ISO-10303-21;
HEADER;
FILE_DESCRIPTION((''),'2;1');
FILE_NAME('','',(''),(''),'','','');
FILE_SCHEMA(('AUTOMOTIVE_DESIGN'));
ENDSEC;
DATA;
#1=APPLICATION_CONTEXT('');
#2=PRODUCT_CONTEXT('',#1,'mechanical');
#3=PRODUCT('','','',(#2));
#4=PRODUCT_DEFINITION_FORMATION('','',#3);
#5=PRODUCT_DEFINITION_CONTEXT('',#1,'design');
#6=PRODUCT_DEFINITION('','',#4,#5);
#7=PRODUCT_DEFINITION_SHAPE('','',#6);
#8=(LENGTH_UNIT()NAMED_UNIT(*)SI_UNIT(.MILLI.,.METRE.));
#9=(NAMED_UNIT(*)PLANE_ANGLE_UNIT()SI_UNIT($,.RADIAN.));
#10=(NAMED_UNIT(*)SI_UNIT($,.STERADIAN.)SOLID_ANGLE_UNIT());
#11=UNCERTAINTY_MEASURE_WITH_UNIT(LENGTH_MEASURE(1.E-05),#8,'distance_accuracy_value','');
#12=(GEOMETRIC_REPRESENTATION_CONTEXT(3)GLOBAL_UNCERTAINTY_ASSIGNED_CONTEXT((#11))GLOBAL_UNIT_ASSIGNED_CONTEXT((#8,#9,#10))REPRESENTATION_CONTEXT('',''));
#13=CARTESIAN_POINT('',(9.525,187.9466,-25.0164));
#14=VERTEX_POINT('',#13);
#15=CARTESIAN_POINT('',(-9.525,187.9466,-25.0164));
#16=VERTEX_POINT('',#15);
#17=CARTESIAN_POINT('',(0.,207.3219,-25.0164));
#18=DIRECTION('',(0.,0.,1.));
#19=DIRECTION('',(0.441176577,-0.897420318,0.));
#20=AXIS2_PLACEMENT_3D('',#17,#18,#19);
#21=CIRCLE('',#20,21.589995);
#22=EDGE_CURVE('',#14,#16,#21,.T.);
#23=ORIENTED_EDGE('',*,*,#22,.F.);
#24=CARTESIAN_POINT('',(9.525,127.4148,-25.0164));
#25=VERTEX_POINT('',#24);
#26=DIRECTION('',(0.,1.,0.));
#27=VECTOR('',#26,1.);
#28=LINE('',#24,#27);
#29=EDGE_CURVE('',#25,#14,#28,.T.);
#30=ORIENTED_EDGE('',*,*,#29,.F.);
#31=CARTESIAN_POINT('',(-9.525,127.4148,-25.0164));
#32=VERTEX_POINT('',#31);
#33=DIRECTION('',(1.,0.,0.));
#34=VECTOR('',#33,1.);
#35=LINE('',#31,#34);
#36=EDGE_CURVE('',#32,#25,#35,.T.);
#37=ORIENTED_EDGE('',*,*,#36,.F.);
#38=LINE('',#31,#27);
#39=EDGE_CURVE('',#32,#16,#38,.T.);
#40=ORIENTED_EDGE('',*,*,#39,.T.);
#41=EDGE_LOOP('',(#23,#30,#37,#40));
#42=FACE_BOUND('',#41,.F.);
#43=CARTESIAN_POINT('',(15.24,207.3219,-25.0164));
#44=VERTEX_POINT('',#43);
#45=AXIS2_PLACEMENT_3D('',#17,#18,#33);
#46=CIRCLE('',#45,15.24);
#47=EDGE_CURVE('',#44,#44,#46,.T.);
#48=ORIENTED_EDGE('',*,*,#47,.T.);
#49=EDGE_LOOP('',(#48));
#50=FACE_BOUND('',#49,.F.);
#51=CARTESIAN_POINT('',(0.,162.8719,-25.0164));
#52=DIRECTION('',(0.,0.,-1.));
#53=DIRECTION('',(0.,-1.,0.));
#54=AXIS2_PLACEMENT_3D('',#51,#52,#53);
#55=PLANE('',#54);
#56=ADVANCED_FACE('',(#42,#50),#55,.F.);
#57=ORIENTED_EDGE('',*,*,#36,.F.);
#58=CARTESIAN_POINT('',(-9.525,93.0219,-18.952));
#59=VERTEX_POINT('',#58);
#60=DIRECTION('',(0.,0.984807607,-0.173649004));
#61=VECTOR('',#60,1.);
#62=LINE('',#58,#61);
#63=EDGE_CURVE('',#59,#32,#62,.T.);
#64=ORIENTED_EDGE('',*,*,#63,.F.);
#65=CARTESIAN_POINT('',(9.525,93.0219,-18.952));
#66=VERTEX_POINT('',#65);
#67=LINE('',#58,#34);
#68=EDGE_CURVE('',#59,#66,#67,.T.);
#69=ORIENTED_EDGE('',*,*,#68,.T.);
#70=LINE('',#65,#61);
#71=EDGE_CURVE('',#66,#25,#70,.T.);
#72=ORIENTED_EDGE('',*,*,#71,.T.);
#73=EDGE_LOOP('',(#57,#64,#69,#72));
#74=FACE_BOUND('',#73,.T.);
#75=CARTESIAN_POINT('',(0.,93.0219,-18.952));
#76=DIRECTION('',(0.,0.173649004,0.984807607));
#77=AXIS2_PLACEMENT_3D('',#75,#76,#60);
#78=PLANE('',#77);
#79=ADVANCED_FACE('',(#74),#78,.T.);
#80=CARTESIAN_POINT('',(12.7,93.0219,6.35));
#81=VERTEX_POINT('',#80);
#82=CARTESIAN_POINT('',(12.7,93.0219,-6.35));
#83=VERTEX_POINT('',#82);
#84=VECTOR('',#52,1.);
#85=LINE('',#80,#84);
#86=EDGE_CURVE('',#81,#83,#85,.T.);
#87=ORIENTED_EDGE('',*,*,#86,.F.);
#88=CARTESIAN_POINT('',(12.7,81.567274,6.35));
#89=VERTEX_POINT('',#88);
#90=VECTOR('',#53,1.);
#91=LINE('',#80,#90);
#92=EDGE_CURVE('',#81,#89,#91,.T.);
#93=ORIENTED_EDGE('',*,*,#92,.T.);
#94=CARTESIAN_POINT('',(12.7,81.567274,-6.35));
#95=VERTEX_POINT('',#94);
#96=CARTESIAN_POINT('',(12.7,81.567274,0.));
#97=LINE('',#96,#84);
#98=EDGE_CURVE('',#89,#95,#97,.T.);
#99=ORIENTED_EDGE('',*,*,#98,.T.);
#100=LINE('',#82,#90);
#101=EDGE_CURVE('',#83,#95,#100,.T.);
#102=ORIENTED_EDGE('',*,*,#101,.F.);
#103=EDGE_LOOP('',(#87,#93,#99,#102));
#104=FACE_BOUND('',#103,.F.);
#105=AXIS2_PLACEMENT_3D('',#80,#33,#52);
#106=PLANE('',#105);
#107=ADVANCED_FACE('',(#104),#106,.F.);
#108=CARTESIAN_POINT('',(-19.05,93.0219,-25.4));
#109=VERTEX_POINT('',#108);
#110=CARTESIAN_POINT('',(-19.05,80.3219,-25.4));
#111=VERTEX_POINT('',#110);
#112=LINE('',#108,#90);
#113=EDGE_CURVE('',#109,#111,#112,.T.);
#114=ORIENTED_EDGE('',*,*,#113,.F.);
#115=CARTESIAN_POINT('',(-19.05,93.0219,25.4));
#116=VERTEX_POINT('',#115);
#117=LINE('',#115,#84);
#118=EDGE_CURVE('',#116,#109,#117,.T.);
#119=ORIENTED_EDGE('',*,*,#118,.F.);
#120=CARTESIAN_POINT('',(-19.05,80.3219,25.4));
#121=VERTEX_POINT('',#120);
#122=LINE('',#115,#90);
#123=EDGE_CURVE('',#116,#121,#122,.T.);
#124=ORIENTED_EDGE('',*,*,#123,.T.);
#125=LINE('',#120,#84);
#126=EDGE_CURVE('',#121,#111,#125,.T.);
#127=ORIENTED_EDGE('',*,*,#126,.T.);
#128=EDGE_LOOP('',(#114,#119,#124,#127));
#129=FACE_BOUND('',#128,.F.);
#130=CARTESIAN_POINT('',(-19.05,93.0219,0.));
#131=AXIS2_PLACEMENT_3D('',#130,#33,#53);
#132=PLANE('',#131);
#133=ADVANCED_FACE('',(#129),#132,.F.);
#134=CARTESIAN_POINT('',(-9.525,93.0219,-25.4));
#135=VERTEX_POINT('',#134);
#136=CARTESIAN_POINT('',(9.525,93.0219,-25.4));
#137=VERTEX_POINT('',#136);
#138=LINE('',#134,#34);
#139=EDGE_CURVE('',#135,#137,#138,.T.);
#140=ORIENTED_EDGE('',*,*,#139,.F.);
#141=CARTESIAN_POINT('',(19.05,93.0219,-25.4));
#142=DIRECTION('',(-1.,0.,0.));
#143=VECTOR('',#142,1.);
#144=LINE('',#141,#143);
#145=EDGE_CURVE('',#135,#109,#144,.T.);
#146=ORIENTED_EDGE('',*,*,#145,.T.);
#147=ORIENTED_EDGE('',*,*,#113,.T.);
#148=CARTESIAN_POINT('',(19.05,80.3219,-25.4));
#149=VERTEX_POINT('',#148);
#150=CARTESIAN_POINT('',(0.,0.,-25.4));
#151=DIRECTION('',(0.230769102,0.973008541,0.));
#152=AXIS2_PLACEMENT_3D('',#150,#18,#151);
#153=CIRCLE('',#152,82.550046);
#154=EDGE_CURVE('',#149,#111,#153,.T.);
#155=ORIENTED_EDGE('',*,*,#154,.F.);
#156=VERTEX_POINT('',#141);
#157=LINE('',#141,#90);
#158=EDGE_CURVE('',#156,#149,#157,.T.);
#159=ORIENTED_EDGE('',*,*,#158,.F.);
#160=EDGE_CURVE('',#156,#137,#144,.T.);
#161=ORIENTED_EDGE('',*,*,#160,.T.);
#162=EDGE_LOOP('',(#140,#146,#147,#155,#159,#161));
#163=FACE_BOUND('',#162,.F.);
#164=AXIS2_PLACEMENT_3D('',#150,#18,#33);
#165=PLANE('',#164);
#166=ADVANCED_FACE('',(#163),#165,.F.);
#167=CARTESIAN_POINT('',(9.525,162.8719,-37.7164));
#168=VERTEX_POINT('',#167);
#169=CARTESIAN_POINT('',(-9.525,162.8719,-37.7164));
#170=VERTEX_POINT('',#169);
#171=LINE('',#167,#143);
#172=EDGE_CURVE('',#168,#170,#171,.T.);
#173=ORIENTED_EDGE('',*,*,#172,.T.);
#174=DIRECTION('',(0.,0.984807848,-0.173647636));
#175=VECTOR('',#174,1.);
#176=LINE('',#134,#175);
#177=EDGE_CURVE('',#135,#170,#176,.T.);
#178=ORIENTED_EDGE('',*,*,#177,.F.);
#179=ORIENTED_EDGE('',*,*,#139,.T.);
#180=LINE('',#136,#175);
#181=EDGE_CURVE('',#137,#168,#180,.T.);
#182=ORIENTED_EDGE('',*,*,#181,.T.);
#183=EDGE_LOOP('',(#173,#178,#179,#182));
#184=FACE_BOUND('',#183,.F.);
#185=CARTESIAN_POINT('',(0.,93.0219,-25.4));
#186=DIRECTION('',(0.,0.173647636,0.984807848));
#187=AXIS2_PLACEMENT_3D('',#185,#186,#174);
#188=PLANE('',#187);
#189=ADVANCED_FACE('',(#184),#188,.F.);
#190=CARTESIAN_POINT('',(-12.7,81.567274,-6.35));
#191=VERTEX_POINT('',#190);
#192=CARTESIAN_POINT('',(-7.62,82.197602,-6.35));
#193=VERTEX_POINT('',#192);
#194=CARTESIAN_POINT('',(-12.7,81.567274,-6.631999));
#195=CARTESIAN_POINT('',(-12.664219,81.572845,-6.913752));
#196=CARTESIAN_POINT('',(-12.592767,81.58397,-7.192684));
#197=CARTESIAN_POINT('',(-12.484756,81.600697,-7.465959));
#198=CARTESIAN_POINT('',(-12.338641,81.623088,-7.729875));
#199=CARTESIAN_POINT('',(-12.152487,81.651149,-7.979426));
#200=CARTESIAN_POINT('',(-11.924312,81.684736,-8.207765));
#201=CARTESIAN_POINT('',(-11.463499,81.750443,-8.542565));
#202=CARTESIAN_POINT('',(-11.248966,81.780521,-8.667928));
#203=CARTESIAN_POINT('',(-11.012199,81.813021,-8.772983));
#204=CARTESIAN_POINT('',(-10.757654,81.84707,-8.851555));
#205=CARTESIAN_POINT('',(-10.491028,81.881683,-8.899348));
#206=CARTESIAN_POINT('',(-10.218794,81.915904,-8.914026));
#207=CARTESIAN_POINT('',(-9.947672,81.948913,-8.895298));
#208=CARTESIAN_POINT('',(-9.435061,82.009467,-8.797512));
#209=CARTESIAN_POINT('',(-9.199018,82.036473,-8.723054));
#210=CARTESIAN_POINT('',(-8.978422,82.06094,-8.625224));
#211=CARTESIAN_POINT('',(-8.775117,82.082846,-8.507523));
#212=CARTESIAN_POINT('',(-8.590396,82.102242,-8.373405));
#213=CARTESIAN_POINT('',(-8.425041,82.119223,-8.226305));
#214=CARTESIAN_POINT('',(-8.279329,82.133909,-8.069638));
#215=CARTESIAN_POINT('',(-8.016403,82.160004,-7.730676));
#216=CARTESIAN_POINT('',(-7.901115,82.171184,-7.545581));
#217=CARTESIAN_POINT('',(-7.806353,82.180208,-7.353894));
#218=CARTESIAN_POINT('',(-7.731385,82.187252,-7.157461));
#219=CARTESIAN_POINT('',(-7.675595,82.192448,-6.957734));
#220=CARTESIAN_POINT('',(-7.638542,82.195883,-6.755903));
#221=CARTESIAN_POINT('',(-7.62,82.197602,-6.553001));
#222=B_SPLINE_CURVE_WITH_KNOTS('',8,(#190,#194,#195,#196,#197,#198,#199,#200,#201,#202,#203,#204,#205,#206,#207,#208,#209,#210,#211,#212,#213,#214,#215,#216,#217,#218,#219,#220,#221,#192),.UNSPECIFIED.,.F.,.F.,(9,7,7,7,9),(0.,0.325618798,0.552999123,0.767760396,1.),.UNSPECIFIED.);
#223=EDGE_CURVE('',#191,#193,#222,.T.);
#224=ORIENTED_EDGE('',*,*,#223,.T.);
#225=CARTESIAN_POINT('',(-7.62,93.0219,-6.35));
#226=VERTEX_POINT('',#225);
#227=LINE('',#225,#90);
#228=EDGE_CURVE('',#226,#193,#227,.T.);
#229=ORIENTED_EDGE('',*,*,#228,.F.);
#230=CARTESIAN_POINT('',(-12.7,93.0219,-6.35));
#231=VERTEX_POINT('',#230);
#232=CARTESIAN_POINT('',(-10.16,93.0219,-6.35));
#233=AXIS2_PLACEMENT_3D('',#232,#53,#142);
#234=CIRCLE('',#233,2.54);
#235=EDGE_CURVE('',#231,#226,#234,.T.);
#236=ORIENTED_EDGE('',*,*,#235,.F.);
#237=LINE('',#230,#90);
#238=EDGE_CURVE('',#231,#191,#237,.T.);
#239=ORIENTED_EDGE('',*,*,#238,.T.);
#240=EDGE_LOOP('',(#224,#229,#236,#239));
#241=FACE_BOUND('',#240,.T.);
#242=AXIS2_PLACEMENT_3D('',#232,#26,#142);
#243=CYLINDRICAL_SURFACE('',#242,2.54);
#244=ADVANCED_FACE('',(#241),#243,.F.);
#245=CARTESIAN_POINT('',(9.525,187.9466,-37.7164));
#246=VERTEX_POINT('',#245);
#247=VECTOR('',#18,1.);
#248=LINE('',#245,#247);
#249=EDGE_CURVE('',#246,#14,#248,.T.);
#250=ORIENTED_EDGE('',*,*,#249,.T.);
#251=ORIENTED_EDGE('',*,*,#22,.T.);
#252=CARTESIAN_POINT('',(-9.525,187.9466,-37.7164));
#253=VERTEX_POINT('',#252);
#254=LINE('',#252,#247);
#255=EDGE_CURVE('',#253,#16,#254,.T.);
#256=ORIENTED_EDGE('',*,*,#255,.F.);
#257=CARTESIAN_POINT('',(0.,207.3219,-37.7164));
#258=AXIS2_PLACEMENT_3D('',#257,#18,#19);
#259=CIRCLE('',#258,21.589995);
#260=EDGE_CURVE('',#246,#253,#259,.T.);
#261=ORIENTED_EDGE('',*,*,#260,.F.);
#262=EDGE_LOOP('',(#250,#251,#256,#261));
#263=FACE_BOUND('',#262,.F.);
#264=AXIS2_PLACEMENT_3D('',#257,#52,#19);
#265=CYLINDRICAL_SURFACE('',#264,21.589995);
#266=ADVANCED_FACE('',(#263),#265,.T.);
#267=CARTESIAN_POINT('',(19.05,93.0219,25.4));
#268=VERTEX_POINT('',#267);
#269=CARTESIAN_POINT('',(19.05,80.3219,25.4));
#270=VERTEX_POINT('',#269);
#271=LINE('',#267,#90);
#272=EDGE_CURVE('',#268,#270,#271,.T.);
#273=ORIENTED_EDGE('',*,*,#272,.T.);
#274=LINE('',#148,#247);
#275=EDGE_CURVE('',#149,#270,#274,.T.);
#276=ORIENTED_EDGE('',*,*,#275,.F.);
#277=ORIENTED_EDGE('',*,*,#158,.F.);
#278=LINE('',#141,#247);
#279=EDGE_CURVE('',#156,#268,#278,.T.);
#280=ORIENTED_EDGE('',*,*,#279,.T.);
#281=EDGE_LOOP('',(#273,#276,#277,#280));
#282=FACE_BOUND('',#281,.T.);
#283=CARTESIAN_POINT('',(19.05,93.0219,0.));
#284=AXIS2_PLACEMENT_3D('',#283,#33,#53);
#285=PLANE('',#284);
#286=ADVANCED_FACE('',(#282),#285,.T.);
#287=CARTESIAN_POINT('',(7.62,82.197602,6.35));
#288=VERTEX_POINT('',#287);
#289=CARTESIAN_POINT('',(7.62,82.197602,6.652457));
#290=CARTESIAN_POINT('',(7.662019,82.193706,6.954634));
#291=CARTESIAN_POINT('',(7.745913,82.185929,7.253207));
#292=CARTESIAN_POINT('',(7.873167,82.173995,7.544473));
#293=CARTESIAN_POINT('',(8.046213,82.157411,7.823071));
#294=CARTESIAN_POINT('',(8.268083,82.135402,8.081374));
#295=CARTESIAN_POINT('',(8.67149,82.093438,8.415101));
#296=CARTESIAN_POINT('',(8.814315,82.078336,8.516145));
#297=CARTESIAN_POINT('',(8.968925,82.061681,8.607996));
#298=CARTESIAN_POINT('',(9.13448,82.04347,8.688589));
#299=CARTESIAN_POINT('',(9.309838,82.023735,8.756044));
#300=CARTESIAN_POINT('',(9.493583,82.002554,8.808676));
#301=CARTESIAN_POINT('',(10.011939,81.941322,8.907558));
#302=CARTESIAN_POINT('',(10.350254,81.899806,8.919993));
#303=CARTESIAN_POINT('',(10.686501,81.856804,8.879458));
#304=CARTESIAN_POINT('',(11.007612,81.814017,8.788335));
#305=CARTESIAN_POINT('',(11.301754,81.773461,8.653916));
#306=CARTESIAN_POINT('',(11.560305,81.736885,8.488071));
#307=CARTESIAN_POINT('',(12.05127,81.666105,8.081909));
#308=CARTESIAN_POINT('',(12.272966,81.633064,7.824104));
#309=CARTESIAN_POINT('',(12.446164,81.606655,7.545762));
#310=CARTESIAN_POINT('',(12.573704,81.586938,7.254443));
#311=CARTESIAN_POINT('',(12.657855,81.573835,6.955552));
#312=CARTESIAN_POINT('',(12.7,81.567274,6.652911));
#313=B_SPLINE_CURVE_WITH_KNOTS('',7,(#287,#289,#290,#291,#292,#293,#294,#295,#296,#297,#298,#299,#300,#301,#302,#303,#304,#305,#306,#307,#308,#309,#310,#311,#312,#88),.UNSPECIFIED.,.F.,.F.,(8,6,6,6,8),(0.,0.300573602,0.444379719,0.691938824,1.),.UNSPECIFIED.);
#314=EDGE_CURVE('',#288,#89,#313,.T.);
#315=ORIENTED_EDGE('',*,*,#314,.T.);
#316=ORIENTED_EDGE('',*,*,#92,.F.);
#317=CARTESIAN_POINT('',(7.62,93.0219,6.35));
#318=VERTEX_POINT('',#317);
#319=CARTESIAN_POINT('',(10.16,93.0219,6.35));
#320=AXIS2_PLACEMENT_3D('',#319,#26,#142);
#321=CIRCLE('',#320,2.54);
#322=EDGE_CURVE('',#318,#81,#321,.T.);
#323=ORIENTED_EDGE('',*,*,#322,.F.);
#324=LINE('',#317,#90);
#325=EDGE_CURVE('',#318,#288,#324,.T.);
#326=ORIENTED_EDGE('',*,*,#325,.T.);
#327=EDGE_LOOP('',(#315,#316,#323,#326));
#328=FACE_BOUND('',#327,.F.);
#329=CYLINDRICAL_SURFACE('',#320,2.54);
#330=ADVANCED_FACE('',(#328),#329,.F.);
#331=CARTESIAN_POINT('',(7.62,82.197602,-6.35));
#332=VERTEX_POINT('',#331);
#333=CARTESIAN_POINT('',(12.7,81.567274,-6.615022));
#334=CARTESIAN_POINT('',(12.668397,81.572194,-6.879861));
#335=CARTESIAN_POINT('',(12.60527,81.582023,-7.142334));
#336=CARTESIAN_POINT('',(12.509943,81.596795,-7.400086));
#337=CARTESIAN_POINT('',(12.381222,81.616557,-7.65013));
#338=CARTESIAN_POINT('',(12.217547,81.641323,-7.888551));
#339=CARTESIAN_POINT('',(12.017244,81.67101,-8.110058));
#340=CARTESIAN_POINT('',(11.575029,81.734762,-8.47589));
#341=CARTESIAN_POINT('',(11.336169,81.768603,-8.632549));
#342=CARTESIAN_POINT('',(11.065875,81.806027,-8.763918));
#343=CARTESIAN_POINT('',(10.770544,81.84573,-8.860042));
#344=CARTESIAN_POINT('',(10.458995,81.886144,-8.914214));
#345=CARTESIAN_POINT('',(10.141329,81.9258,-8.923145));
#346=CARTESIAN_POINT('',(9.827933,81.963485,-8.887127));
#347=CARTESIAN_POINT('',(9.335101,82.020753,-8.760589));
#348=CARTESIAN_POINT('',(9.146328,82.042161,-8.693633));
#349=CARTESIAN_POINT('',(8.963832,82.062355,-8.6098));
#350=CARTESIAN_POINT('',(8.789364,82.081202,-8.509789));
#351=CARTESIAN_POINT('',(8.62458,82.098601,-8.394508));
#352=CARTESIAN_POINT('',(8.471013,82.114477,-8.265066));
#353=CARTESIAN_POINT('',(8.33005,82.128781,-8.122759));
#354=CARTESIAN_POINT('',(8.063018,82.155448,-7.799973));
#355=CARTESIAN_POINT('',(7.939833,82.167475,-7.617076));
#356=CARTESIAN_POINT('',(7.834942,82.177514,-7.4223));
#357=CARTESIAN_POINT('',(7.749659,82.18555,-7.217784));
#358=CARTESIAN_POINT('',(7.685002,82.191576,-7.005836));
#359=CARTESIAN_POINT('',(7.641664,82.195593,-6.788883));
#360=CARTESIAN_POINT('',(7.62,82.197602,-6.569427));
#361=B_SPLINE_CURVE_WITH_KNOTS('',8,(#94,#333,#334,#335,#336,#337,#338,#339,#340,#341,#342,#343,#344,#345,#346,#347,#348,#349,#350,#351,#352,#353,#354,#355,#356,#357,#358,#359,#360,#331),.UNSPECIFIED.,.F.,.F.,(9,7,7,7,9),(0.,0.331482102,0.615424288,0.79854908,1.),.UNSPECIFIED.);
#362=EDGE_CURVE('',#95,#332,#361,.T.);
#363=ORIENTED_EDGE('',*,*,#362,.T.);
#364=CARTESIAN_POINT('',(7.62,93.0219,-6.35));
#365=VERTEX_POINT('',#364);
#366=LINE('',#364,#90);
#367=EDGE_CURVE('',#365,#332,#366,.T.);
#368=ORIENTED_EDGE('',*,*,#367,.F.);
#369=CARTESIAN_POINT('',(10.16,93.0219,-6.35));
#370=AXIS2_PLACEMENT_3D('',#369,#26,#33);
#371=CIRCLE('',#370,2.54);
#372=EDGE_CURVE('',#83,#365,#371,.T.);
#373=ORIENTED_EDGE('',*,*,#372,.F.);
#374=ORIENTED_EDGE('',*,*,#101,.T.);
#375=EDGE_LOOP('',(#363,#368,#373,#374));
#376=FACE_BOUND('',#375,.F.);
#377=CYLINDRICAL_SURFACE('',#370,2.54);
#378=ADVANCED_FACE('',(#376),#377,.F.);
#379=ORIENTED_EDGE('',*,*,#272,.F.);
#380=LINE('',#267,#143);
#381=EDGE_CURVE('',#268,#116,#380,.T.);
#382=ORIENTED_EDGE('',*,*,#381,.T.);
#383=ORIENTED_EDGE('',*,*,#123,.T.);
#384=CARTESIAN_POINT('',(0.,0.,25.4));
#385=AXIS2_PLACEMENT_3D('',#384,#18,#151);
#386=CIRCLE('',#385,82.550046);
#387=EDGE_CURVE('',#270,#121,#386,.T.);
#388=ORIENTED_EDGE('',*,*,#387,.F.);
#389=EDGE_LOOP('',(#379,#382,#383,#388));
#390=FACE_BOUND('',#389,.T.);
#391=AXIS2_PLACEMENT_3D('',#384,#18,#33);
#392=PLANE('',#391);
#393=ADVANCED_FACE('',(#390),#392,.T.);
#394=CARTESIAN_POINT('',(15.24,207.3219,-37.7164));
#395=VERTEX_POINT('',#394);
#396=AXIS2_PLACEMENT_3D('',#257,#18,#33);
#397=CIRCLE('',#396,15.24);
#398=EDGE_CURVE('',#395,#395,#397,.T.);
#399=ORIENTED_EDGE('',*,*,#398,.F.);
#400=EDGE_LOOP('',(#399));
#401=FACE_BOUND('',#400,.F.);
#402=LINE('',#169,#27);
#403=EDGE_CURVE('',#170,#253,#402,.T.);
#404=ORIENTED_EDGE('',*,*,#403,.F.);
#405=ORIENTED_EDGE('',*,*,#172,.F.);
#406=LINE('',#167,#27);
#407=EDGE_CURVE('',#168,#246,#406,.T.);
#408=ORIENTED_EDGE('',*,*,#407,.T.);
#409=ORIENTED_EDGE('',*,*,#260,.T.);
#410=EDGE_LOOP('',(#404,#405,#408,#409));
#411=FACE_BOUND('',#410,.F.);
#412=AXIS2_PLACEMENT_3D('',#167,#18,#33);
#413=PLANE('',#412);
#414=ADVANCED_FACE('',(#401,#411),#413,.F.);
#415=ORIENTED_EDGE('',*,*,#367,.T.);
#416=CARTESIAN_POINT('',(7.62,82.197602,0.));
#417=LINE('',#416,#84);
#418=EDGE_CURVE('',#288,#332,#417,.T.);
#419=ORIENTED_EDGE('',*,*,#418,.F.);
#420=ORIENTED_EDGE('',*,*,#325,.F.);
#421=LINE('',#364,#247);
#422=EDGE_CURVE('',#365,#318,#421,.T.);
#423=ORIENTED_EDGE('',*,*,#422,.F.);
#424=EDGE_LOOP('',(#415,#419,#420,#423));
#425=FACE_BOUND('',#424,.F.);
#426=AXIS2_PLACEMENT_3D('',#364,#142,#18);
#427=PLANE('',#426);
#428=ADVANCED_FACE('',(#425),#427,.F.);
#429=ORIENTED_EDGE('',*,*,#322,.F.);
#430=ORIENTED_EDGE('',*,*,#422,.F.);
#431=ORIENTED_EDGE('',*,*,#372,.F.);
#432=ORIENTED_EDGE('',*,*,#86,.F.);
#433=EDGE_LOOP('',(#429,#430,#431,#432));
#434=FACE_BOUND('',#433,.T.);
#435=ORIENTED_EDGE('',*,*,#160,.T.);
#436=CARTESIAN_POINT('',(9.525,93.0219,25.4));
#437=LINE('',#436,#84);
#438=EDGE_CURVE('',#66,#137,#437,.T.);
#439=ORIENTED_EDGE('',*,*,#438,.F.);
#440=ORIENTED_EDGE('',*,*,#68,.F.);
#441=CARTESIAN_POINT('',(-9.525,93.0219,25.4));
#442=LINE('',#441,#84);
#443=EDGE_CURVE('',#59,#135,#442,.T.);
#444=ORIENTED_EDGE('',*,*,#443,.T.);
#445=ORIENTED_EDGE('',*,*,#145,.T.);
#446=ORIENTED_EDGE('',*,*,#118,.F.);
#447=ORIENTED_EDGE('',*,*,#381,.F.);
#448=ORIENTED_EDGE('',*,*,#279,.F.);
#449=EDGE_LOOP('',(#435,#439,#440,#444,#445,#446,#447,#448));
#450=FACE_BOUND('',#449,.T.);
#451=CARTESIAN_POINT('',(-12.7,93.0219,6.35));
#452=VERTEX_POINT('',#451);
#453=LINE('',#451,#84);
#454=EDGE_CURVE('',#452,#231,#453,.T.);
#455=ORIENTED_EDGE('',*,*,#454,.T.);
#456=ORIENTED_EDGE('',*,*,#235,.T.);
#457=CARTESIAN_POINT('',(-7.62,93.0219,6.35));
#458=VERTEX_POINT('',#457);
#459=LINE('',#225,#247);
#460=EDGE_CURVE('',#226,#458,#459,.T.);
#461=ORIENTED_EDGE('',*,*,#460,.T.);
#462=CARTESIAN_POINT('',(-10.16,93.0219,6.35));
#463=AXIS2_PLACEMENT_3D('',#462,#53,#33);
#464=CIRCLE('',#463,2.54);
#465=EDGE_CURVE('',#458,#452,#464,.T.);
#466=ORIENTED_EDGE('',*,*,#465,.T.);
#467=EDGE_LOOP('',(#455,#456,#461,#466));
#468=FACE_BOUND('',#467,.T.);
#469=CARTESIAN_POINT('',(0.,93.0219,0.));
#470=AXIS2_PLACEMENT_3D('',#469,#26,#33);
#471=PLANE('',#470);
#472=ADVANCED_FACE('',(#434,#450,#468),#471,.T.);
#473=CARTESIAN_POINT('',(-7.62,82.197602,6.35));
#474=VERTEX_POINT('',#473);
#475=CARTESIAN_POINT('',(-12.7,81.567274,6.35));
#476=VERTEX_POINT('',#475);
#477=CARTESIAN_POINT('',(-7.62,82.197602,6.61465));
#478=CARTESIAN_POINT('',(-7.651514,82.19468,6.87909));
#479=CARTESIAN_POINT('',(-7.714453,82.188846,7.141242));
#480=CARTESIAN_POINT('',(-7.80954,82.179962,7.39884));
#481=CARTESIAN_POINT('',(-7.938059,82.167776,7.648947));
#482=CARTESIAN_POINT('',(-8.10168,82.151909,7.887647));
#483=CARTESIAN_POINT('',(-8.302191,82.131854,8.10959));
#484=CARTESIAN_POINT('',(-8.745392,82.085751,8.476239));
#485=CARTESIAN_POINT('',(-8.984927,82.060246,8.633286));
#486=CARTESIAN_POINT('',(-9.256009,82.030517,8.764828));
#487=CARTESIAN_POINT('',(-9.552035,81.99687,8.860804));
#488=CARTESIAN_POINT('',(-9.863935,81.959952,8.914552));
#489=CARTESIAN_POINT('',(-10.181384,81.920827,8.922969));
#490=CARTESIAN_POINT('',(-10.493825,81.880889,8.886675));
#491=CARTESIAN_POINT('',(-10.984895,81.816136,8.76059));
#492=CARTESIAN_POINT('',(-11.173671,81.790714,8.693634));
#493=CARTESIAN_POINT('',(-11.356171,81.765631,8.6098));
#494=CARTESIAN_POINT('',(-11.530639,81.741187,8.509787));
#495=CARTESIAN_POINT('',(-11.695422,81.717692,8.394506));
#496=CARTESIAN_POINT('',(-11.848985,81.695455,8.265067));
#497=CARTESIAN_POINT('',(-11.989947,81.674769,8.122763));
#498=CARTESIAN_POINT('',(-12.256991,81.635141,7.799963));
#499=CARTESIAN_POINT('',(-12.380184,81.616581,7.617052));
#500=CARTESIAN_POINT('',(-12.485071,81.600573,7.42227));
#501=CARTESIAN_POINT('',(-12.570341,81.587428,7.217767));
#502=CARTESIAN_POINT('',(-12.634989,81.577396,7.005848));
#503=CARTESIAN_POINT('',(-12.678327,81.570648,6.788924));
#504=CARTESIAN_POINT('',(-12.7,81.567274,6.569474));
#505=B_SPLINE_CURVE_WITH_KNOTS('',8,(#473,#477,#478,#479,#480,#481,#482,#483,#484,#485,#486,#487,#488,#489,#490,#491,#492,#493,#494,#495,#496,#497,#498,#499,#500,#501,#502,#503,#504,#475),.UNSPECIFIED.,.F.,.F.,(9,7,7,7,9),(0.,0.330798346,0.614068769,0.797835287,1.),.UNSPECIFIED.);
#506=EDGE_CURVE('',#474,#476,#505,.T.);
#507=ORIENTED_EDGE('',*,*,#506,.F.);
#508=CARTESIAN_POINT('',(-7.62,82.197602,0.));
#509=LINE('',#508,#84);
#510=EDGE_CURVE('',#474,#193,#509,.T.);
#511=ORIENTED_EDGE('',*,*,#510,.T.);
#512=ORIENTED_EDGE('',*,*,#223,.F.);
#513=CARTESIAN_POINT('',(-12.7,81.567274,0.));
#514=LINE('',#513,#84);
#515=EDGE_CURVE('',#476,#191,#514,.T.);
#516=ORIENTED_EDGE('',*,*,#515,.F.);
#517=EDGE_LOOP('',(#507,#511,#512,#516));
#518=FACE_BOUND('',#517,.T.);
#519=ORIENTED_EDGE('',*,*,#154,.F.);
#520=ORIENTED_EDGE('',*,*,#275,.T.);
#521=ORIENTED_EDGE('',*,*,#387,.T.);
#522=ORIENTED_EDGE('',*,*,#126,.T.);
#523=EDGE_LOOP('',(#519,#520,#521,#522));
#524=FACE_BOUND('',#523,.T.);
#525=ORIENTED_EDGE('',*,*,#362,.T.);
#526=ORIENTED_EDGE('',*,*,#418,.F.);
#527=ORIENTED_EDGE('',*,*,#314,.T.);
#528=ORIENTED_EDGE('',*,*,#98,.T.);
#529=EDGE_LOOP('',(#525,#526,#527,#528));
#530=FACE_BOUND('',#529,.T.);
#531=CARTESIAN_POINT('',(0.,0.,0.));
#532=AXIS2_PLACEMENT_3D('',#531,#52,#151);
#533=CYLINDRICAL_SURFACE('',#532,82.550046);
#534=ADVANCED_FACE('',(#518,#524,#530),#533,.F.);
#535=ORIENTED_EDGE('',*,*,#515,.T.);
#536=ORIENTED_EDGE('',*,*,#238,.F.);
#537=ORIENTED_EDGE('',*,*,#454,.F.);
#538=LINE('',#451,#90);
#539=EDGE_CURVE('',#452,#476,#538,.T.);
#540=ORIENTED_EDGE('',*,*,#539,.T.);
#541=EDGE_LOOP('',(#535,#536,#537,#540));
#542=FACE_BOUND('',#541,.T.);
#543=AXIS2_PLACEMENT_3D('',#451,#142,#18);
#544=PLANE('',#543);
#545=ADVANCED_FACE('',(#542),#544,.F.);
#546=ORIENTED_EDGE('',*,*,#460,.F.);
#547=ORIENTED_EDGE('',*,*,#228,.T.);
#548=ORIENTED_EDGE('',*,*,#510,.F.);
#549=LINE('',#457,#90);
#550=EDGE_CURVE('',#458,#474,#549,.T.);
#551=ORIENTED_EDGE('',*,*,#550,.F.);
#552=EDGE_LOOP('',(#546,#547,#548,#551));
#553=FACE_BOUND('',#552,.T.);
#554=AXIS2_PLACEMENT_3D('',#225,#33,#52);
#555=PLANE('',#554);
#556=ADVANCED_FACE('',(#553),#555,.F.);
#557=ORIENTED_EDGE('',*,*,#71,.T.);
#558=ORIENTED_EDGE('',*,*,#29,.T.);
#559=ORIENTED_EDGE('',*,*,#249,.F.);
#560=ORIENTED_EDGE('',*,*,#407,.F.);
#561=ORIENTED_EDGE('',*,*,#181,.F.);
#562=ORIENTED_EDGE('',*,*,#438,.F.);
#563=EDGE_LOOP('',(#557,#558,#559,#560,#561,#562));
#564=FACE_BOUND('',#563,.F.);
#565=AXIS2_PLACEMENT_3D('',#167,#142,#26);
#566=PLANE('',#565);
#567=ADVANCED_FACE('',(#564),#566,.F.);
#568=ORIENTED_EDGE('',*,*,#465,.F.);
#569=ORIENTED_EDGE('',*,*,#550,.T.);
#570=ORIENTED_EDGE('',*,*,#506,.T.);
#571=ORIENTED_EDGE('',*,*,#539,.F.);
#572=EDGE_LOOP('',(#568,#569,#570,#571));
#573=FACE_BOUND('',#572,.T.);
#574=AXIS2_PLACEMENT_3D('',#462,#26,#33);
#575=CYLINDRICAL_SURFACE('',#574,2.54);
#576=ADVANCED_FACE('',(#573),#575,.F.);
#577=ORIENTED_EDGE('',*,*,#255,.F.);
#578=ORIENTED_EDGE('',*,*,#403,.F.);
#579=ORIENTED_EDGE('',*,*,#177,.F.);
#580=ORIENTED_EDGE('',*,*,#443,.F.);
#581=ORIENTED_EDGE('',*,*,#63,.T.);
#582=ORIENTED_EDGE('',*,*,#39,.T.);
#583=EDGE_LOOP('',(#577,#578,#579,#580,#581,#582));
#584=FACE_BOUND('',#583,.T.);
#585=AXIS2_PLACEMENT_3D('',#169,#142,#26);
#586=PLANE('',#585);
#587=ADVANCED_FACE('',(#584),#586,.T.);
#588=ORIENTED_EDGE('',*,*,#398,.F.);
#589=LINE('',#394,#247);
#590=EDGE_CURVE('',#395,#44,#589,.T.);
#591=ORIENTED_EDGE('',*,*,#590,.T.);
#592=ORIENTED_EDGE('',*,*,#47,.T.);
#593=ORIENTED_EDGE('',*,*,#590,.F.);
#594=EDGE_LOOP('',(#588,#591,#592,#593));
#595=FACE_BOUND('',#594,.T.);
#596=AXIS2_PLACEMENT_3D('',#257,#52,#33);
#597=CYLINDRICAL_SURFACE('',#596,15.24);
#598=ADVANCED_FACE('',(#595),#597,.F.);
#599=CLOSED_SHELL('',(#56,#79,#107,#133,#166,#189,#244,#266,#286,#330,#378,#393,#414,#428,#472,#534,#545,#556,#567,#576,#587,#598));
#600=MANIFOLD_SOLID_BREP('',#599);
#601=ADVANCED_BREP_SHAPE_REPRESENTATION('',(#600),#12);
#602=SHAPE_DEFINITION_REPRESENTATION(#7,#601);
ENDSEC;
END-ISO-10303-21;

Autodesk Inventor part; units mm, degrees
ref_plane "Work Plane3" through (19.05, 80.3219, 25.4) normal (0, 1, 0) x (-1, 0, 0)
ref_plane "Work Plane4" through (0, 228.9119, -25.0164) normal (0, 1, 0) x (-1, 0, 0)
sketch "Sketch1" plane through (0, 0, 0) normal (0, 0, 1) x (1, 0, 0)
  arc A0 (19.05, 80.3219) -> (-19.05, 80.3219) centre (0, 0) ccw
  line L0 (0, 0) -> (0, 152.4) construction
  line L1 (0, 93.0219) -> (19.05, 93.0219)
  line L2 (19.05, 93.0219) -> (19.05, 80.3219)
  line L3 (0, 93.0219) -> (-19.05, 93.0219)
  line L4 (-19.05, 93.0219) -> (-19.05, 80.3219)
  dimension "telescopeTubeDiameter" = 165.1
  dimension "d1" = 152.4
  dimension "d2" = 19.05
  dimension "d3" = 12.7
extrude "Extrusion1" add sketch "Sketch1" along normal mid plane 50.8
sketch "Sketch2" plane through (-19.05, 93.0219, 25.4) normal (0, 1, 0) x (1, 0, 0)
  line L0 (38.1, 0) -> (0, 0) construction
  line L1 (19.05, 0) -> (19.05, 50.8) construction
  line L2 (0, 50.8) -> (38.1, 50.8) construction
  line L3 (0, 50.8) -> (0, 0) construction
  line L4 (0, 25.4) -> (38.1, 25.4) construction
  line L5 (38.1, 50.8) -> (38.1, 0) construction
  line L6 (29.21, 19.05) -> (29.21, 31.75) construction
  line L7 (31.75, 19.05) -> (31.75, 31.75)
  line L8 (26.67, 31.75) -> (26.67, 19.05)
  arc A0 (26.67, 19.05) -> (31.75, 19.05) centre (29.21, 19.05) ccw
  arc A1 (31.75, 31.75) -> (26.67, 31.75) centre (29.21, 31.75) ccw
  point P0 (19.05, 25.4)
  point P1 (29.21, 25.4)
  dimension "d6" = 0
  dimension "d7" = 10.16
  dimension "d8" = 6.35
  dimension "d11" = 5.08
extrude "Extrusion2" cut sketch "Sketch2" against normal through all
mirror "Mirror1" about plane through (0, 0, 0) normal (1, 0, 0) of "Extrusion2"
sketch "Sketch3" plane through (0, 0, 0) normal (1, 0, 0) x (0, 1, 0)
  line L0 (93.0219, 25.4) -> (93.0219, -25.4) projected
  line L1 (80.3219, -25.4) -> (93.0219, -25.4) projected
  line L2 (162.8719, -25.4) -> (162.8719, -37.137) construction
  line L3 (93.0219, -25.4) -> (162.8719, -37.7164)
  line L4 (93.0219, -25.4) -> (162.8719, -25.4) construction
  line L5 (93.0219, -18.952) -> (162.8719, -31.2685)
  line L6 (162.8719, -31.2685) -> (162.8719, -37.7164)
  point P0 (0, 0)
  dimension "d13" = 69.85
  dimension "d14" = 10
  dimension "d15" = 6.35
extrude "Extrusion3" add sketch "Sketch3" along normal mid plane 19.05
ref_plane "Work Plane1" through (9.525, 162.8719, -37.7164) normal (0, 0, 1) x (1, 0, 0)
sketch "Sketch4" plane through (9.525, 162.8719, -37.7164) normal (0, 0, 1) x (1, 0, 0)
  line L0 (0, 0) -> (-19.05, 0) projected
  line L1 (-19.05, 0) -> (0, 0) construction
  line L2 (-9.525, 0) -> (-9.525, 50.8) construction
  circle A0 centre (-9.525, 44.45) radius 15.24
  arc A1 (0, 25.0747) -> (-19.05, 25.0747) centre (-9.525, 44.45) ccw
  line L3 (0, 0) -> (0, 25.0747)
  line L4 (-19.05, 0) -> (-19.05, 25.0747)
  point P0 (-9.525, -162.8719)
  dimension "d18" = 50.8
  dimension "d19" = 30.48
  dimension "d20" = 6.35
  dimension "d25" = 44.45
extrude "Extrusion4" add sketch "Sketch4" along normal blind 12.7
sketch "Sketch7" plane through (0, 0, 0) normal (1, 0, 0) x (0, 1, 0)
  line L0 (93.0219, -18.952) -> (162.8719, -31.2685) projected
  line L1 (162.8719, -31.2685) -> (162.8719, -25.0164) projected
  line L2 (162.8719, -25.0164) -> (127.4148, -25.0164)
  line L3 (127.4148, -25.0164) -> (162.8719, -31.2685)
  line L4 (187.9465, -25.0164) -> (162.8719, -25.0164) projected
  line L5 (162.8719, -31.2685) -> (162.8719, -25.0164)
  point P0 (0, 0)
extrude "Extrusion5" add sketch "Sketch7" along normal mid plane 19.05
sketch "Sketch8" plane through (0, 0, 0) normal (1, 0, 0) x (0, 1, 0)
  line L0 (162.8719, 31.2685) -> (162.8719, 25.0164) projected
  line L1 (93.0219, 18.952) -> (162.8719, 31.2685) projected
  line L2 (162.8719, 25.0164) -> (127.4148, 25.0164)
  line L3 (127.4148, 25.0164) -> (162.8719, 31.2685)
  line L4 (162.8719, 31.2685) -> (162.8719, 25.0164)
  point P0 (0, 0)
sketch "Sketch9" plane through (0, 0, 0) normal (1, 0, 0) x (0, 1, 0)
  line L0 (187.9465, 25.0164) -> (127.4148, 25.0164) projected
  line L1 (93.0219, -18.952) -> (93.0219, -25.4) projected
  line L2 (93.0219, 18.952) -> (93.0219, -18.952)
  line L3 (93.0219, -18.952) -> (127.4148, -25.0164) projected
  line L4 (93.0219, -18.952) -> (127.4148, -25.0164)
  line L5 (187.9465, -25.0164) -> (127.4148, -25.0164) projected
  line L6 (127.4148, -25.0164) -> (187.9465, -25.0164)
  line L7 (187.9465, -25.0164) -> (187.9465, 25.0164)
  line L8 (93.0219, 18.952) -> (127.4148, 25.0164) projected
  line L9 (187.9465, 25.0164) -> (127.4148, 25.0164)
  point P0 (0, 0)
sketch "Sketch14" plane through (0, 228.9119, -25.0164) normal (0, 1, 0) x (-1, 0, 0)
  circle A0 centre (0, -6.35) radius 2.0193
  line L0 (21.59, -12.7) -> (-21.59, -12.7) projected
  circle A1 centre (0, 56.3829) radius 2.0193
  line L1 (21.59, 62.7329) -> (-21.59, 62.7329) projected
  point P0 (0, 25.0164)
  point P1 (-9.525, -12.7)
  point P2 (9.525, -12.7)
  point P3 (-9.525, 62.7329)
  point P4 (9.525, 62.7329)
  dimension "d74" = 4.0386
  dimension "d75" = 6.35
  dimension "d76" = 6.35
sketch "Sketch16" plane through (0, 222.4275, -31.3664) normal (-1, 0, 0) x (0, 0, 1)
  line L0 (2.0193, 0) -> (2.0193, 6.4844)
  line L1 (2.0193, 6.4844) -> (1.4308, 6.4844)
  line L2 (1.4308, 6.4844) -> (1.4308, 0)
  line L3 (1.4308, 0) -> (2.0193, 0)
  line L4 (0, -171.8239) -> (0, 36.2042) projected
sketch "Sketch15" plane through (0, 222.4275, -29.3471) normal (1, 0, 0) x (0, 1, 0)
  line L0 (-0.4631, -0.0403) -> (-0.397, -0.0403) construction
  line L1 (0.066, -0.5486) -> (-0.0001, -0.6756) construction
  line L2 (-0.7939, -0.6756) -> (-0.86, -0.5486) construction
  line L3 (-0.3308, -0.0403) -> (-0.397, 0.0868) construction
  line L4 (-0.397, 0.0868) -> (-0.4631, -0.0403) construction
  line L5 (-0.7939, -0.6756) -> (-0.7277, -0.5486) construction
  line L6 (-0.3308, -0.0403) -> (-0.0662, -0.5486)
  line L7 (-0.86, -0.5486) -> (-0.7277, -0.5486) construction
  arc A0 (-0.86, -0.5486) -> (-0.7939, -0.5887) centre (-0.7939, -0.5141) ccw construction
  line L8 (0.066, -0.5486) -> (-0.0662, -0.5486) construction
  line L9 (-0.7939, -0.6756) -> (-0.7939, -0.5486) construction
  line L10 (-0.0001, -0.6756) -> (-0.0001, -0.5486) construction
  line L11 (-0.397, 0.0868) -> (-0.397, -0.0002) construction
  line L12 (-0.7939, -0.5887) -> (-0.0001, -0.5887)
  arc A1 (-0.7939, -0.5887) -> (-0.7277, -0.5486) centre (-0.7939, -0.5141) ccw
  line L13 (-0.0662, -0.5486) -> (-0.0001, -0.6756) construction
  line L14 (-0.7277, -0.5486) -> (-0.4631, -0.0403)
  line L15 (-0.0001, -0.0002) -> (-0.0001, 0.0177)
  line L16 (-0.0001, 0.0177) -> (-0.0001, -0.0002)
  line L17 (-0.0001, -0.0002) -> (0.0334, -0.0002)
  arc A2 (-0.0662, -0.5486) -> (-0.0001, -0.5887) centre (-0.0001, -0.5141) ccw
  arc A3 (-0.0001, -0.5887) -> (0.066, -0.5486) centre (-0.0001, -0.5141) ccw construction
  arc A4 (-0.397, -0.0002) -> (-0.4631, -0.0403) centre (-0.397, -0.0747) ccw
  arc A5 (-0.3308, -0.0403) -> (-0.397, -0.0002) centre (-0.397, -0.0747) ccw
  line L18 (-0.397, -0.0002) -> (-0.397, -0.0403) construction
  line L19 (-0.397, -0.0403) -> (-0.3308, -0.0403) construction
  dimension "d94" = 55
  dimension "d95" = 0.1271
  dimension "d96" = 0.1271
  dimension "Sketch15_ThreadOffset" = 0
  dimension "Sketch15_MajorRadius" = 0.5885
  dimension "d99" = 0.7937
  dimension "Sketch15_MinorRadius" = 0
sketch "Sketch18" plane through (0, 222.4275, 31.3664) normal (-1, 0, 0) x (0, 0, 1)
  line L0 (2.0193, 0) -> (2.0193, 6.4844)
  line L1 (2.0193, 6.4844) -> (1.4308, 6.4844)
  line L2 (1.4308, 6.4844) -> (1.4308, 0)
  line L3 (1.4308, 0) -> (2.0193, 0)
  line L4 (0, -171.8765) -> (0, 36.5199) projected
sketch "Sketch17" plane through (0, 222.4275, 33.3857) normal (1, 0, 0) x (0, 1, 0)
  line L0 (-0.4631, -0.0403) -> (-0.397, -0.0403) construction
  line L1 (0.066, -0.5486) -> (-0.0001, -0.6756) construction
  line L2 (-0.7939, -0.6756) -> (-0.86, -0.5486) construction
  line L3 (-0.3308, -0.0403) -> (-0.397, 0.0868) construction
  line L4 (-0.397, 0.0868) -> (-0.4631, -0.0403) construction
  line L5 (-0.7939, -0.6756) -> (-0.7277, -0.5486) construction
  line L6 (-0.3308, -0.0403) -> (-0.0662, -0.5486)
  line L7 (-0.86, -0.5486) -> (-0.7277, -0.5486) construction
  arc A0 (-0.86, -0.5486) -> (-0.7939, -0.5887) centre (-0.7939, -0.5141) ccw construction
  line L8 (0.066, -0.5486) -> (-0.0662, -0.5486) construction
  line L9 (-0.7939, -0.6756) -> (-0.7939, -0.5486) construction
  line L10 (-0.0001, -0.6756) -> (-0.0001, -0.5486) construction
  line L11 (-0.397, 0.0868) -> (-0.397, -0.0002) construction
  line L12 (-0.7939, -0.5887) -> (-0.0001, -0.5887)
  arc A1 (-0.7939, -0.5887) -> (-0.7277, -0.5486) centre (-0.7939, -0.5141) ccw
  line L13 (-0.0662, -0.5486) -> (-0.0001, -0.6756) construction
  line L14 (-0.7277, -0.5486) -> (-0.4631, -0.0403)
  line L15 (-0.0001, -0.0002) -> (-0.0001, 0.0177)
  line L16 (-0.0001, 0.0177) -> (-0.0001, -0.0002)
  line L17 (-0.0001, -0.0002) -> (0.0334, -0.0002)
  arc A2 (-0.0662, -0.5486) -> (-0.0001, -0.5887) centre (-0.0001, -0.5141) ccw
  arc A3 (-0.0001, -0.5887) -> (0.066, -0.5486) centre (-0.0001, -0.5141) ccw construction
  arc A4 (-0.397, -0.0002) -> (-0.4631, -0.0403) centre (-0.397, -0.0747) ccw
  arc A5 (-0.3308, -0.0403) -> (-0.397, -0.0002) centre (-0.397, -0.0747) ccw
  line L18 (-0.397, -0.0002) -> (-0.397, -0.0403) construction
  line L19 (-0.397, -0.0403) -> (-0.3308, -0.0403) construction
  dimension "d112" = 55
  dimension "d113" = 0.1271
  dimension "d114" = 0.1271
  dimension "Sketch17_ThreadOffset" = 0
  dimension "Sketch17_MajorRadius" = 0.5885
  dimension "d117" = 0.7937
  dimension "Sketch17_MinorRadius" = 0
sketch "Sketch20" plane through (13.0819, 199.769, -31.3664) normal (0.5, 0.866, 0) x (0, 0, 1)
  line L0 (2.0193, 0) -> (2.0193, 6.4844)
  line L1 (2.0193, 6.4844) -> (1.4308, 6.4844)
  line L2 (1.4308, 6.4844) -> (1.4308, 0)
  line L3 (1.4308, 0) -> (2.0193, 0)
  line L4 (0, -67.0949) -> (0, 89.4563) projected
sketch "Sketch19" plane through (13.0819, 199.769, -29.3471) normal (-0.5, -0.866, 0) x (0.866, -0.5, 0)
  line L0 (-0.4631, -0.0403) -> (-0.397, -0.0403) construction
  line L1 (0.066, -0.5486) -> (-0.0001, -0.6756) construction
  line L2 (-0.7939, -0.6756) -> (-0.86, -0.5486) construction
  line L3 (-0.3308, -0.0403) -> (-0.397, 0.0868) construction
  line L4 (-0.397, 0.0868) -> (-0.4631, -0.0403) construction
  line L5 (-0.7939, -0.6756) -> (-0.7277, -0.5486) construction
  line L6 (-0.3308, -0.0403) -> (-0.0662, -0.5486)
  line L7 (-0.86, -0.5486) -> (-0.7277, -0.5486) construction
  arc A0 (-0.86, -0.5486) -> (-0.7939, -0.5887) centre (-0.7939, -0.5141) ccw construction
  line L8 (0.066, -0.5486) -> (-0.0662, -0.5486) construction
  line L9 (-0.7939, -0.6756) -> (-0.7939, -0.5486) construction
  line L10 (-0.0001, -0.6756) -> (-0.0001, -0.5486) construction
  line L11 (-0.397, 0.0868) -> (-0.397, -0.0002) construction
  line L12 (-0.7939, -0.5887) -> (-0.0001, -0.5887)
  arc A1 (-0.7939, -0.5887) -> (-0.7277, -0.5486) centre (-0.7939, -0.5141) ccw
  line L13 (-0.0662, -0.5486) -> (-0.0001, -0.6756) construction
  line L14 (-0.7277, -0.5486) -> (-0.4631, -0.0403)
  line L15 (-0.0001, -0.0002) -> (-0.0001, 0.0177)
  line L16 (-0.0001, 0.0177) -> (-0.0001, -0.0002)
  line L17 (-0.0001, -0.0002) -> (0.0334, -0.0002)
  arc A2 (-0.0662, -0.5486) -> (-0.0001, -0.5887) centre (-0.0001, -0.5141) ccw
  arc A3 (-0.0001, -0.5887) -> (0.066, -0.5486) centre (-0.0001, -0.5141) ccw construction
  arc A4 (-0.397, -0.0002) -> (-0.4631, -0.0403) centre (-0.397, -0.0747) ccw
  arc A5 (-0.3308, -0.0403) -> (-0.397, -0.0002) centre (-0.397, -0.0747) ccw
  line L18 (-0.397, -0.0002) -> (-0.397, -0.0403) construction
  line L19 (-0.397, -0.0403) -> (-0.3308, -0.0403) construction
  dimension "d130" = 55
  dimension "d131" = 0.1271
  dimension "d132" = 0.1271
  dimension "Sketch19_ThreadOffset" = 0
  dimension "Sketch19_MajorRadius" = 0.5885
  dimension "d135" = 0.7937
  dimension "Sketch19_MinorRadius" = 0
sketch "Sketch22" plane through (-13.0819, 199.769, -31.3664) normal (0.5, -0.866, 0) x (0, 0, 1)
  line L0 (2.0193, 0) -> (2.0193, 6.4844)
  line L1 (2.0193, 6.4844) -> (1.4308, 6.4844)
  line L2 (1.4308, 6.4844) -> (1.4308, 0)
  line L3 (1.4308, 0) -> (2.0193, 0)
  line L4 (0, -67.0949) -> (0, 89.4563) projected
sketch "Sketch21" plane through (-13.0819, 199.769, -29.3471) normal (-0.5, 0.866, 0) x (-0.866, -0.5, 0)
  line L0 (-0.4631, -0.0403) -> (-0.397, -0.0403) construction
  line L1 (0.066, -0.5486) -> (-0.0001, -0.6756) construction
  line L2 (-0.7939, -0.6756) -> (-0.86, -0.5486) construction
  line L3 (-0.3308, -0.0403) -> (-0.397, 0.0868) construction
  line L4 (-0.397, 0.0868) -> (-0.4631, -0.0403) construction
  line L5 (-0.7939, -0.6756) -> (-0.7277, -0.5486) construction
  line L6 (-0.3308, -0.0403) -> (-0.0662, -0.5486)
  line L7 (-0.86, -0.5486) -> (-0.7277, -0.5486) construction
  arc A0 (-0.86, -0.5486) -> (-0.7939, -0.5887) centre (-0.7939, -0.5141) ccw construction
  line L8 (0.066, -0.5486) -> (-0.0662, -0.5486) construction
  line L9 (-0.7939, -0.6756) -> (-0.7939, -0.5486) construction
  line L10 (-0.0001, -0.6756) -> (-0.0001, -0.5486) construction
  line L11 (-0.397, 0.0868) -> (-0.397, -0.0002) construction
  line L12 (-0.7939, -0.5887) -> (-0.0001, -0.5887)
  arc A1 (-0.7939, -0.5887) -> (-0.7277, -0.5486) centre (-0.7939, -0.5141) ccw
  line L13 (-0.0662, -0.5486) -> (-0.0001, -0.6756) construction
  line L14 (-0.7277, -0.5486) -> (-0.4631, -0.0403)
  line L15 (-0.0001, -0.0002) -> (-0.0001, 0.0177)
  line L16 (-0.0001, 0.0177) -> (-0.0001, -0.0002)
  line L17 (-0.0001, -0.0002) -> (0.0334, -0.0002)
  arc A2 (-0.0662, -0.5486) -> (-0.0001, -0.5887) centre (-0.0001, -0.5141) ccw
  arc A3 (-0.0001, -0.5887) -> (0.066, -0.5486) centre (-0.0001, -0.5141) ccw construction
  arc A4 (-0.397, -0.0002) -> (-0.4631, -0.0403) centre (-0.397, -0.0747) ccw
  arc A5 (-0.3308, -0.0403) -> (-0.397, -0.0002) centre (-0.397, -0.0747) ccw
  line L18 (-0.397, -0.0002) -> (-0.397, -0.0403) construction
  line L19 (-0.397, -0.0403) -> (-0.3308, -0.0403) construction
  dimension "d148" = 55
  dimension "d149" = 0.1271
  dimension "d150" = 0.1271
  dimension "Sketch21_ThreadOffset" = 0
  dimension "Sketch21_MajorRadius" = 0.5885
  dimension "d153" = 0.7937
  dimension "Sketch21_MinorRadius" = 0
sketch "Sketch24" plane through (13.0819, 199.769, 31.3664) normal (0.5, 0.866, 0) x (0, 0, 1)
  line L0 (2.0193, 0) -> (2.0193, 6.4844)
  line L1 (2.0193, 6.4844) -> (1.4308, 6.4844)
  line L2 (1.4308, 6.4844) -> (1.4308, 0)
  line L3 (1.4308, 0) -> (2.0193, 0)
  line L4 (0, -67.0949) -> (0, 89.4563) projected
sketch "Sketch23" plane through (13.0819, 199.769, 33.3857) normal (-0.5, -0.866, 0) x (0.866, -0.5, 0)
  line L0 (-0.4631, -0.0403) -> (-0.397, -0.0403) construction
  line L1 (0.066, -0.5486) -> (-0.0001, -0.6756) construction
  line L2 (-0.7939, -0.6756) -> (-0.86, -0.5486) construction
  line L3 (-0.3308, -0.0403) -> (-0.397, 0.0868) construction
  line L4 (-0.397, 0.0868) -> (-0.4631, -0.0403) construction
  line L5 (-0.7939, -0.6756) -> (-0.7277, -0.5486) construction
  line L6 (-0.3308, -0.0403) -> (-0.0662, -0.5486)
  line L7 (-0.86, -0.5486) -> (-0.7277, -0.5486) construction
  arc A0 (-0.86, -0.5486) -> (-0.7939, -0.5887) centre (-0.7939, -0.5141) ccw construction
  line L8 (0.066, -0.5486) -> (-0.0662, -0.5486) construction
  line L9 (-0.7939, -0.6756) -> (-0.7939, -0.5486) construction
  line L10 (-0.0001, -0.6756) -> (-0.0001, -0.5486) construction
  line L11 (-0.397, 0.0868) -> (-0.397, -0.0002) construction
  line L12 (-0.7939, -0.5887) -> (-0.0001, -0.5887)
  arc A1 (-0.7939, -0.5887) -> (-0.7277, -0.5486) centre (-0.7939, -0.5141) ccw
  line L13 (-0.0662, -0.5486) -> (-0.0001, -0.6756) construction
  line L14 (-0.7277, -0.5486) -> (-0.4631, -0.0403)
  line L15 (-0.0001, -0.0002) -> (-0.0001, 0.0177)
  line L16 (-0.0001, 0.0177) -> (-0.0001, -0.0002)
  line L17 (-0.0001, -0.0002) -> (0.0334, -0.0002)
  arc A2 (-0.0662, -0.5486) -> (-0.0001, -0.5887) centre (-0.0001, -0.5141) ccw
  arc A3 (-0.0001, -0.5887) -> (0.066, -0.5486) centre (-0.0001, -0.5141) ccw construction
  arc A4 (-0.397, -0.0002) -> (-0.4631, -0.0403) centre (-0.397, -0.0747) ccw
  arc A5 (-0.3308, -0.0403) -> (-0.397, -0.0002) centre (-0.397, -0.0747) ccw
  line L18 (-0.397, -0.0002) -> (-0.397, -0.0403) construction
  line L19 (-0.397, -0.0403) -> (-0.3308, -0.0403) construction
  dimension "d166" = 55
  dimension "d167" = 0.1271
  dimension "d168" = 0.1271
  dimension "Sketch23_ThreadOffset" = 0
  dimension "Sketch23_MajorRadius" = 0.5885
  dimension "d171" = 0.7937
  dimension "Sketch23_MinorRadius" = 0
sketch "Sketch26" plane through (-13.0819, 199.769, 31.3664) normal (0.5, -0.866, 0) x (0, 0, 1)
  line L0 (2.0193, 0) -> (2.0193, 6.4844)
  line L1 (2.0193, 6.4844) -> (1.4308, 6.4844)
  line L2 (1.4308, 6.4844) -> (1.4308, 0)
  line L3 (1.4308, 0) -> (2.0193, 0)
  line L4 (0, -67.0949) -> (0, 89.4563) projected
sketch "Sketch25" plane through (-13.0819, 199.769, 33.3857) normal (-0.5, 0.866, 0) x (-0.866, -0.5, 0)
  line L0 (-0.4631, -0.0403) -> (-0.397, -0.0403) construction
  line L1 (0.066, -0.5486) -> (-0.0001, -0.6756) construction
  line L2 (-0.7939, -0.6756) -> (-0.86, -0.5486) construction
  line L3 (-0.3308, -0.0403) -> (-0.397, 0.0868) construction
  line L4 (-0.397, 0.0868) -> (-0.4631, -0.0403) construction
  line L5 (-0.7939, -0.6756) -> (-0.7277, -0.5486) construction
  line L6 (-0.3308, -0.0403) -> (-0.0662, -0.5486)
  line L7 (-0.86, -0.5486) -> (-0.7277, -0.5486) construction
  arc A0 (-0.86, -0.5486) -> (-0.7939, -0.5887) centre (-0.7939, -0.5141) ccw construction
  line L8 (0.066, -0.5486) -> (-0.0662, -0.5486) construction
  line L9 (-0.7939, -0.6756) -> (-0.7939, -0.5486) construction
  line L10 (-0.0001, -0.6756) -> (-0.0001, -0.5486) construction
  line L11 (-0.397, 0.0868) -> (-0.397, -0.0002) construction
  line L12 (-0.7939, -0.5887) -> (-0.0001, -0.5887)
  arc A1 (-0.7939, -0.5887) -> (-0.7277, -0.5486) centre (-0.7939, -0.5141) ccw
  line L13 (-0.0662, -0.5486) -> (-0.0001, -0.6756) construction
  line L14 (-0.7277, -0.5486) -> (-0.4631, -0.0403)
  line L15 (-0.0001, -0.0002) -> (-0.0001, 0.0177)
  line L16 (-0.0001, 0.0177) -> (-0.0001, -0.0002)
  line L17 (-0.0001, -0.0002) -> (0.0334, -0.0002)
  arc A2 (-0.0662, -0.5486) -> (-0.0001, -0.5887) centre (-0.0001, -0.5141) ccw
  arc A3 (-0.0001, -0.5887) -> (0.066, -0.5486) centre (-0.0001, -0.5141) ccw construction
  arc A4 (-0.397, -0.0002) -> (-0.4631, -0.0403) centre (-0.397, -0.0747) ccw
  arc A5 (-0.3308, -0.0403) -> (-0.397, -0.0002) centre (-0.397, -0.0747) ccw
  line L18 (-0.397, -0.0002) -> (-0.397, -0.0403) construction
  line L19 (-0.397, -0.0403) -> (-0.3308, -0.0403) construction
  dimension "d184" = 55
  dimension "d185" = 0.1271
  dimension "d186" = 0.1271
  dimension "Sketch25_ThreadOffset" = 0
  dimension "Sketch25_MajorRadius" = 0.5885
  dimension "d189" = 0.7937
  dimension "Sketch25_MinorRadius" = 0
equation "\"d94\" = d101"
equation "\"d95\" = 0.160083 * Sketch15_Pitch"
equation "\"d96\" = 0.160083 * Sketch15_Pitch"
equation "\"d99\" = Sketch15_Pitch"
equation "\"d112\" = d119"
equation "\"d113\" = 0.160083 * Sketch17_Pitch"
equation "\"d114\" = 0.160083 * Sketch17_Pitch"
equation "\"d117\" = Sketch17_Pitch"
equation "\"d130\" = d137"
equation "\"d131\" = 0.160083 * Sketch19_Pitch"
equation "\"d132\" = 0.160083 * Sketch19_Pitch"
equation "\"d135\" = Sketch19_Pitch"
equation "\"d148\" = d155"
equation "\"d149\" = 0.160083 * Sketch21_Pitch"
equation "\"d150\" = 0.160083 * Sketch21_Pitch"
equation "\"d153\" = Sketch21_Pitch"
equation "\"d166\" = d173"
equation "\"d167\" = 0.160083 * Sketch23_Pitch"
equation "\"d168\" = 0.160083 * Sketch23_Pitch"
equation "\"d171\" = Sketch23_Pitch"
equation "\"d184\" = d191"
equation "\"d185\" = 0.160083 * Sketch25_Pitch"
equation "\"d186\" = 0.160083 * Sketch25_Pitch"
equation "\"d189\" = Sketch25_Pitch"
equation "\"d62\" = 0.125 * Sketch12_Pitch"
equation "\"Sketch12_Pitch\" = 0.79375"
equation "\"d64\" = 60deg"
equation "\"d101\" = 55deg"
equation "\"Sketch15_Pitch\" = 0.79375"
equation "\"d119\" = 55deg"
equation "\"Sketch17_Pitch\" = 0.79375"
equation "\"d137\" = 55deg"
equation "\"Sketch19_Pitch\" = 0.79375"
equation "\"d155\" = 55deg"
equation "\"Sketch21_Pitch\" = 0.79375"
equation "\"d173\" = 55deg"
equation "\"Sketch23_Pitch\" = 0.79375"
equation "\"d191\" = 55deg"
equation "\"Sketch25_Pitch\" = 0.79375"
properties part number "testBasePrint"
